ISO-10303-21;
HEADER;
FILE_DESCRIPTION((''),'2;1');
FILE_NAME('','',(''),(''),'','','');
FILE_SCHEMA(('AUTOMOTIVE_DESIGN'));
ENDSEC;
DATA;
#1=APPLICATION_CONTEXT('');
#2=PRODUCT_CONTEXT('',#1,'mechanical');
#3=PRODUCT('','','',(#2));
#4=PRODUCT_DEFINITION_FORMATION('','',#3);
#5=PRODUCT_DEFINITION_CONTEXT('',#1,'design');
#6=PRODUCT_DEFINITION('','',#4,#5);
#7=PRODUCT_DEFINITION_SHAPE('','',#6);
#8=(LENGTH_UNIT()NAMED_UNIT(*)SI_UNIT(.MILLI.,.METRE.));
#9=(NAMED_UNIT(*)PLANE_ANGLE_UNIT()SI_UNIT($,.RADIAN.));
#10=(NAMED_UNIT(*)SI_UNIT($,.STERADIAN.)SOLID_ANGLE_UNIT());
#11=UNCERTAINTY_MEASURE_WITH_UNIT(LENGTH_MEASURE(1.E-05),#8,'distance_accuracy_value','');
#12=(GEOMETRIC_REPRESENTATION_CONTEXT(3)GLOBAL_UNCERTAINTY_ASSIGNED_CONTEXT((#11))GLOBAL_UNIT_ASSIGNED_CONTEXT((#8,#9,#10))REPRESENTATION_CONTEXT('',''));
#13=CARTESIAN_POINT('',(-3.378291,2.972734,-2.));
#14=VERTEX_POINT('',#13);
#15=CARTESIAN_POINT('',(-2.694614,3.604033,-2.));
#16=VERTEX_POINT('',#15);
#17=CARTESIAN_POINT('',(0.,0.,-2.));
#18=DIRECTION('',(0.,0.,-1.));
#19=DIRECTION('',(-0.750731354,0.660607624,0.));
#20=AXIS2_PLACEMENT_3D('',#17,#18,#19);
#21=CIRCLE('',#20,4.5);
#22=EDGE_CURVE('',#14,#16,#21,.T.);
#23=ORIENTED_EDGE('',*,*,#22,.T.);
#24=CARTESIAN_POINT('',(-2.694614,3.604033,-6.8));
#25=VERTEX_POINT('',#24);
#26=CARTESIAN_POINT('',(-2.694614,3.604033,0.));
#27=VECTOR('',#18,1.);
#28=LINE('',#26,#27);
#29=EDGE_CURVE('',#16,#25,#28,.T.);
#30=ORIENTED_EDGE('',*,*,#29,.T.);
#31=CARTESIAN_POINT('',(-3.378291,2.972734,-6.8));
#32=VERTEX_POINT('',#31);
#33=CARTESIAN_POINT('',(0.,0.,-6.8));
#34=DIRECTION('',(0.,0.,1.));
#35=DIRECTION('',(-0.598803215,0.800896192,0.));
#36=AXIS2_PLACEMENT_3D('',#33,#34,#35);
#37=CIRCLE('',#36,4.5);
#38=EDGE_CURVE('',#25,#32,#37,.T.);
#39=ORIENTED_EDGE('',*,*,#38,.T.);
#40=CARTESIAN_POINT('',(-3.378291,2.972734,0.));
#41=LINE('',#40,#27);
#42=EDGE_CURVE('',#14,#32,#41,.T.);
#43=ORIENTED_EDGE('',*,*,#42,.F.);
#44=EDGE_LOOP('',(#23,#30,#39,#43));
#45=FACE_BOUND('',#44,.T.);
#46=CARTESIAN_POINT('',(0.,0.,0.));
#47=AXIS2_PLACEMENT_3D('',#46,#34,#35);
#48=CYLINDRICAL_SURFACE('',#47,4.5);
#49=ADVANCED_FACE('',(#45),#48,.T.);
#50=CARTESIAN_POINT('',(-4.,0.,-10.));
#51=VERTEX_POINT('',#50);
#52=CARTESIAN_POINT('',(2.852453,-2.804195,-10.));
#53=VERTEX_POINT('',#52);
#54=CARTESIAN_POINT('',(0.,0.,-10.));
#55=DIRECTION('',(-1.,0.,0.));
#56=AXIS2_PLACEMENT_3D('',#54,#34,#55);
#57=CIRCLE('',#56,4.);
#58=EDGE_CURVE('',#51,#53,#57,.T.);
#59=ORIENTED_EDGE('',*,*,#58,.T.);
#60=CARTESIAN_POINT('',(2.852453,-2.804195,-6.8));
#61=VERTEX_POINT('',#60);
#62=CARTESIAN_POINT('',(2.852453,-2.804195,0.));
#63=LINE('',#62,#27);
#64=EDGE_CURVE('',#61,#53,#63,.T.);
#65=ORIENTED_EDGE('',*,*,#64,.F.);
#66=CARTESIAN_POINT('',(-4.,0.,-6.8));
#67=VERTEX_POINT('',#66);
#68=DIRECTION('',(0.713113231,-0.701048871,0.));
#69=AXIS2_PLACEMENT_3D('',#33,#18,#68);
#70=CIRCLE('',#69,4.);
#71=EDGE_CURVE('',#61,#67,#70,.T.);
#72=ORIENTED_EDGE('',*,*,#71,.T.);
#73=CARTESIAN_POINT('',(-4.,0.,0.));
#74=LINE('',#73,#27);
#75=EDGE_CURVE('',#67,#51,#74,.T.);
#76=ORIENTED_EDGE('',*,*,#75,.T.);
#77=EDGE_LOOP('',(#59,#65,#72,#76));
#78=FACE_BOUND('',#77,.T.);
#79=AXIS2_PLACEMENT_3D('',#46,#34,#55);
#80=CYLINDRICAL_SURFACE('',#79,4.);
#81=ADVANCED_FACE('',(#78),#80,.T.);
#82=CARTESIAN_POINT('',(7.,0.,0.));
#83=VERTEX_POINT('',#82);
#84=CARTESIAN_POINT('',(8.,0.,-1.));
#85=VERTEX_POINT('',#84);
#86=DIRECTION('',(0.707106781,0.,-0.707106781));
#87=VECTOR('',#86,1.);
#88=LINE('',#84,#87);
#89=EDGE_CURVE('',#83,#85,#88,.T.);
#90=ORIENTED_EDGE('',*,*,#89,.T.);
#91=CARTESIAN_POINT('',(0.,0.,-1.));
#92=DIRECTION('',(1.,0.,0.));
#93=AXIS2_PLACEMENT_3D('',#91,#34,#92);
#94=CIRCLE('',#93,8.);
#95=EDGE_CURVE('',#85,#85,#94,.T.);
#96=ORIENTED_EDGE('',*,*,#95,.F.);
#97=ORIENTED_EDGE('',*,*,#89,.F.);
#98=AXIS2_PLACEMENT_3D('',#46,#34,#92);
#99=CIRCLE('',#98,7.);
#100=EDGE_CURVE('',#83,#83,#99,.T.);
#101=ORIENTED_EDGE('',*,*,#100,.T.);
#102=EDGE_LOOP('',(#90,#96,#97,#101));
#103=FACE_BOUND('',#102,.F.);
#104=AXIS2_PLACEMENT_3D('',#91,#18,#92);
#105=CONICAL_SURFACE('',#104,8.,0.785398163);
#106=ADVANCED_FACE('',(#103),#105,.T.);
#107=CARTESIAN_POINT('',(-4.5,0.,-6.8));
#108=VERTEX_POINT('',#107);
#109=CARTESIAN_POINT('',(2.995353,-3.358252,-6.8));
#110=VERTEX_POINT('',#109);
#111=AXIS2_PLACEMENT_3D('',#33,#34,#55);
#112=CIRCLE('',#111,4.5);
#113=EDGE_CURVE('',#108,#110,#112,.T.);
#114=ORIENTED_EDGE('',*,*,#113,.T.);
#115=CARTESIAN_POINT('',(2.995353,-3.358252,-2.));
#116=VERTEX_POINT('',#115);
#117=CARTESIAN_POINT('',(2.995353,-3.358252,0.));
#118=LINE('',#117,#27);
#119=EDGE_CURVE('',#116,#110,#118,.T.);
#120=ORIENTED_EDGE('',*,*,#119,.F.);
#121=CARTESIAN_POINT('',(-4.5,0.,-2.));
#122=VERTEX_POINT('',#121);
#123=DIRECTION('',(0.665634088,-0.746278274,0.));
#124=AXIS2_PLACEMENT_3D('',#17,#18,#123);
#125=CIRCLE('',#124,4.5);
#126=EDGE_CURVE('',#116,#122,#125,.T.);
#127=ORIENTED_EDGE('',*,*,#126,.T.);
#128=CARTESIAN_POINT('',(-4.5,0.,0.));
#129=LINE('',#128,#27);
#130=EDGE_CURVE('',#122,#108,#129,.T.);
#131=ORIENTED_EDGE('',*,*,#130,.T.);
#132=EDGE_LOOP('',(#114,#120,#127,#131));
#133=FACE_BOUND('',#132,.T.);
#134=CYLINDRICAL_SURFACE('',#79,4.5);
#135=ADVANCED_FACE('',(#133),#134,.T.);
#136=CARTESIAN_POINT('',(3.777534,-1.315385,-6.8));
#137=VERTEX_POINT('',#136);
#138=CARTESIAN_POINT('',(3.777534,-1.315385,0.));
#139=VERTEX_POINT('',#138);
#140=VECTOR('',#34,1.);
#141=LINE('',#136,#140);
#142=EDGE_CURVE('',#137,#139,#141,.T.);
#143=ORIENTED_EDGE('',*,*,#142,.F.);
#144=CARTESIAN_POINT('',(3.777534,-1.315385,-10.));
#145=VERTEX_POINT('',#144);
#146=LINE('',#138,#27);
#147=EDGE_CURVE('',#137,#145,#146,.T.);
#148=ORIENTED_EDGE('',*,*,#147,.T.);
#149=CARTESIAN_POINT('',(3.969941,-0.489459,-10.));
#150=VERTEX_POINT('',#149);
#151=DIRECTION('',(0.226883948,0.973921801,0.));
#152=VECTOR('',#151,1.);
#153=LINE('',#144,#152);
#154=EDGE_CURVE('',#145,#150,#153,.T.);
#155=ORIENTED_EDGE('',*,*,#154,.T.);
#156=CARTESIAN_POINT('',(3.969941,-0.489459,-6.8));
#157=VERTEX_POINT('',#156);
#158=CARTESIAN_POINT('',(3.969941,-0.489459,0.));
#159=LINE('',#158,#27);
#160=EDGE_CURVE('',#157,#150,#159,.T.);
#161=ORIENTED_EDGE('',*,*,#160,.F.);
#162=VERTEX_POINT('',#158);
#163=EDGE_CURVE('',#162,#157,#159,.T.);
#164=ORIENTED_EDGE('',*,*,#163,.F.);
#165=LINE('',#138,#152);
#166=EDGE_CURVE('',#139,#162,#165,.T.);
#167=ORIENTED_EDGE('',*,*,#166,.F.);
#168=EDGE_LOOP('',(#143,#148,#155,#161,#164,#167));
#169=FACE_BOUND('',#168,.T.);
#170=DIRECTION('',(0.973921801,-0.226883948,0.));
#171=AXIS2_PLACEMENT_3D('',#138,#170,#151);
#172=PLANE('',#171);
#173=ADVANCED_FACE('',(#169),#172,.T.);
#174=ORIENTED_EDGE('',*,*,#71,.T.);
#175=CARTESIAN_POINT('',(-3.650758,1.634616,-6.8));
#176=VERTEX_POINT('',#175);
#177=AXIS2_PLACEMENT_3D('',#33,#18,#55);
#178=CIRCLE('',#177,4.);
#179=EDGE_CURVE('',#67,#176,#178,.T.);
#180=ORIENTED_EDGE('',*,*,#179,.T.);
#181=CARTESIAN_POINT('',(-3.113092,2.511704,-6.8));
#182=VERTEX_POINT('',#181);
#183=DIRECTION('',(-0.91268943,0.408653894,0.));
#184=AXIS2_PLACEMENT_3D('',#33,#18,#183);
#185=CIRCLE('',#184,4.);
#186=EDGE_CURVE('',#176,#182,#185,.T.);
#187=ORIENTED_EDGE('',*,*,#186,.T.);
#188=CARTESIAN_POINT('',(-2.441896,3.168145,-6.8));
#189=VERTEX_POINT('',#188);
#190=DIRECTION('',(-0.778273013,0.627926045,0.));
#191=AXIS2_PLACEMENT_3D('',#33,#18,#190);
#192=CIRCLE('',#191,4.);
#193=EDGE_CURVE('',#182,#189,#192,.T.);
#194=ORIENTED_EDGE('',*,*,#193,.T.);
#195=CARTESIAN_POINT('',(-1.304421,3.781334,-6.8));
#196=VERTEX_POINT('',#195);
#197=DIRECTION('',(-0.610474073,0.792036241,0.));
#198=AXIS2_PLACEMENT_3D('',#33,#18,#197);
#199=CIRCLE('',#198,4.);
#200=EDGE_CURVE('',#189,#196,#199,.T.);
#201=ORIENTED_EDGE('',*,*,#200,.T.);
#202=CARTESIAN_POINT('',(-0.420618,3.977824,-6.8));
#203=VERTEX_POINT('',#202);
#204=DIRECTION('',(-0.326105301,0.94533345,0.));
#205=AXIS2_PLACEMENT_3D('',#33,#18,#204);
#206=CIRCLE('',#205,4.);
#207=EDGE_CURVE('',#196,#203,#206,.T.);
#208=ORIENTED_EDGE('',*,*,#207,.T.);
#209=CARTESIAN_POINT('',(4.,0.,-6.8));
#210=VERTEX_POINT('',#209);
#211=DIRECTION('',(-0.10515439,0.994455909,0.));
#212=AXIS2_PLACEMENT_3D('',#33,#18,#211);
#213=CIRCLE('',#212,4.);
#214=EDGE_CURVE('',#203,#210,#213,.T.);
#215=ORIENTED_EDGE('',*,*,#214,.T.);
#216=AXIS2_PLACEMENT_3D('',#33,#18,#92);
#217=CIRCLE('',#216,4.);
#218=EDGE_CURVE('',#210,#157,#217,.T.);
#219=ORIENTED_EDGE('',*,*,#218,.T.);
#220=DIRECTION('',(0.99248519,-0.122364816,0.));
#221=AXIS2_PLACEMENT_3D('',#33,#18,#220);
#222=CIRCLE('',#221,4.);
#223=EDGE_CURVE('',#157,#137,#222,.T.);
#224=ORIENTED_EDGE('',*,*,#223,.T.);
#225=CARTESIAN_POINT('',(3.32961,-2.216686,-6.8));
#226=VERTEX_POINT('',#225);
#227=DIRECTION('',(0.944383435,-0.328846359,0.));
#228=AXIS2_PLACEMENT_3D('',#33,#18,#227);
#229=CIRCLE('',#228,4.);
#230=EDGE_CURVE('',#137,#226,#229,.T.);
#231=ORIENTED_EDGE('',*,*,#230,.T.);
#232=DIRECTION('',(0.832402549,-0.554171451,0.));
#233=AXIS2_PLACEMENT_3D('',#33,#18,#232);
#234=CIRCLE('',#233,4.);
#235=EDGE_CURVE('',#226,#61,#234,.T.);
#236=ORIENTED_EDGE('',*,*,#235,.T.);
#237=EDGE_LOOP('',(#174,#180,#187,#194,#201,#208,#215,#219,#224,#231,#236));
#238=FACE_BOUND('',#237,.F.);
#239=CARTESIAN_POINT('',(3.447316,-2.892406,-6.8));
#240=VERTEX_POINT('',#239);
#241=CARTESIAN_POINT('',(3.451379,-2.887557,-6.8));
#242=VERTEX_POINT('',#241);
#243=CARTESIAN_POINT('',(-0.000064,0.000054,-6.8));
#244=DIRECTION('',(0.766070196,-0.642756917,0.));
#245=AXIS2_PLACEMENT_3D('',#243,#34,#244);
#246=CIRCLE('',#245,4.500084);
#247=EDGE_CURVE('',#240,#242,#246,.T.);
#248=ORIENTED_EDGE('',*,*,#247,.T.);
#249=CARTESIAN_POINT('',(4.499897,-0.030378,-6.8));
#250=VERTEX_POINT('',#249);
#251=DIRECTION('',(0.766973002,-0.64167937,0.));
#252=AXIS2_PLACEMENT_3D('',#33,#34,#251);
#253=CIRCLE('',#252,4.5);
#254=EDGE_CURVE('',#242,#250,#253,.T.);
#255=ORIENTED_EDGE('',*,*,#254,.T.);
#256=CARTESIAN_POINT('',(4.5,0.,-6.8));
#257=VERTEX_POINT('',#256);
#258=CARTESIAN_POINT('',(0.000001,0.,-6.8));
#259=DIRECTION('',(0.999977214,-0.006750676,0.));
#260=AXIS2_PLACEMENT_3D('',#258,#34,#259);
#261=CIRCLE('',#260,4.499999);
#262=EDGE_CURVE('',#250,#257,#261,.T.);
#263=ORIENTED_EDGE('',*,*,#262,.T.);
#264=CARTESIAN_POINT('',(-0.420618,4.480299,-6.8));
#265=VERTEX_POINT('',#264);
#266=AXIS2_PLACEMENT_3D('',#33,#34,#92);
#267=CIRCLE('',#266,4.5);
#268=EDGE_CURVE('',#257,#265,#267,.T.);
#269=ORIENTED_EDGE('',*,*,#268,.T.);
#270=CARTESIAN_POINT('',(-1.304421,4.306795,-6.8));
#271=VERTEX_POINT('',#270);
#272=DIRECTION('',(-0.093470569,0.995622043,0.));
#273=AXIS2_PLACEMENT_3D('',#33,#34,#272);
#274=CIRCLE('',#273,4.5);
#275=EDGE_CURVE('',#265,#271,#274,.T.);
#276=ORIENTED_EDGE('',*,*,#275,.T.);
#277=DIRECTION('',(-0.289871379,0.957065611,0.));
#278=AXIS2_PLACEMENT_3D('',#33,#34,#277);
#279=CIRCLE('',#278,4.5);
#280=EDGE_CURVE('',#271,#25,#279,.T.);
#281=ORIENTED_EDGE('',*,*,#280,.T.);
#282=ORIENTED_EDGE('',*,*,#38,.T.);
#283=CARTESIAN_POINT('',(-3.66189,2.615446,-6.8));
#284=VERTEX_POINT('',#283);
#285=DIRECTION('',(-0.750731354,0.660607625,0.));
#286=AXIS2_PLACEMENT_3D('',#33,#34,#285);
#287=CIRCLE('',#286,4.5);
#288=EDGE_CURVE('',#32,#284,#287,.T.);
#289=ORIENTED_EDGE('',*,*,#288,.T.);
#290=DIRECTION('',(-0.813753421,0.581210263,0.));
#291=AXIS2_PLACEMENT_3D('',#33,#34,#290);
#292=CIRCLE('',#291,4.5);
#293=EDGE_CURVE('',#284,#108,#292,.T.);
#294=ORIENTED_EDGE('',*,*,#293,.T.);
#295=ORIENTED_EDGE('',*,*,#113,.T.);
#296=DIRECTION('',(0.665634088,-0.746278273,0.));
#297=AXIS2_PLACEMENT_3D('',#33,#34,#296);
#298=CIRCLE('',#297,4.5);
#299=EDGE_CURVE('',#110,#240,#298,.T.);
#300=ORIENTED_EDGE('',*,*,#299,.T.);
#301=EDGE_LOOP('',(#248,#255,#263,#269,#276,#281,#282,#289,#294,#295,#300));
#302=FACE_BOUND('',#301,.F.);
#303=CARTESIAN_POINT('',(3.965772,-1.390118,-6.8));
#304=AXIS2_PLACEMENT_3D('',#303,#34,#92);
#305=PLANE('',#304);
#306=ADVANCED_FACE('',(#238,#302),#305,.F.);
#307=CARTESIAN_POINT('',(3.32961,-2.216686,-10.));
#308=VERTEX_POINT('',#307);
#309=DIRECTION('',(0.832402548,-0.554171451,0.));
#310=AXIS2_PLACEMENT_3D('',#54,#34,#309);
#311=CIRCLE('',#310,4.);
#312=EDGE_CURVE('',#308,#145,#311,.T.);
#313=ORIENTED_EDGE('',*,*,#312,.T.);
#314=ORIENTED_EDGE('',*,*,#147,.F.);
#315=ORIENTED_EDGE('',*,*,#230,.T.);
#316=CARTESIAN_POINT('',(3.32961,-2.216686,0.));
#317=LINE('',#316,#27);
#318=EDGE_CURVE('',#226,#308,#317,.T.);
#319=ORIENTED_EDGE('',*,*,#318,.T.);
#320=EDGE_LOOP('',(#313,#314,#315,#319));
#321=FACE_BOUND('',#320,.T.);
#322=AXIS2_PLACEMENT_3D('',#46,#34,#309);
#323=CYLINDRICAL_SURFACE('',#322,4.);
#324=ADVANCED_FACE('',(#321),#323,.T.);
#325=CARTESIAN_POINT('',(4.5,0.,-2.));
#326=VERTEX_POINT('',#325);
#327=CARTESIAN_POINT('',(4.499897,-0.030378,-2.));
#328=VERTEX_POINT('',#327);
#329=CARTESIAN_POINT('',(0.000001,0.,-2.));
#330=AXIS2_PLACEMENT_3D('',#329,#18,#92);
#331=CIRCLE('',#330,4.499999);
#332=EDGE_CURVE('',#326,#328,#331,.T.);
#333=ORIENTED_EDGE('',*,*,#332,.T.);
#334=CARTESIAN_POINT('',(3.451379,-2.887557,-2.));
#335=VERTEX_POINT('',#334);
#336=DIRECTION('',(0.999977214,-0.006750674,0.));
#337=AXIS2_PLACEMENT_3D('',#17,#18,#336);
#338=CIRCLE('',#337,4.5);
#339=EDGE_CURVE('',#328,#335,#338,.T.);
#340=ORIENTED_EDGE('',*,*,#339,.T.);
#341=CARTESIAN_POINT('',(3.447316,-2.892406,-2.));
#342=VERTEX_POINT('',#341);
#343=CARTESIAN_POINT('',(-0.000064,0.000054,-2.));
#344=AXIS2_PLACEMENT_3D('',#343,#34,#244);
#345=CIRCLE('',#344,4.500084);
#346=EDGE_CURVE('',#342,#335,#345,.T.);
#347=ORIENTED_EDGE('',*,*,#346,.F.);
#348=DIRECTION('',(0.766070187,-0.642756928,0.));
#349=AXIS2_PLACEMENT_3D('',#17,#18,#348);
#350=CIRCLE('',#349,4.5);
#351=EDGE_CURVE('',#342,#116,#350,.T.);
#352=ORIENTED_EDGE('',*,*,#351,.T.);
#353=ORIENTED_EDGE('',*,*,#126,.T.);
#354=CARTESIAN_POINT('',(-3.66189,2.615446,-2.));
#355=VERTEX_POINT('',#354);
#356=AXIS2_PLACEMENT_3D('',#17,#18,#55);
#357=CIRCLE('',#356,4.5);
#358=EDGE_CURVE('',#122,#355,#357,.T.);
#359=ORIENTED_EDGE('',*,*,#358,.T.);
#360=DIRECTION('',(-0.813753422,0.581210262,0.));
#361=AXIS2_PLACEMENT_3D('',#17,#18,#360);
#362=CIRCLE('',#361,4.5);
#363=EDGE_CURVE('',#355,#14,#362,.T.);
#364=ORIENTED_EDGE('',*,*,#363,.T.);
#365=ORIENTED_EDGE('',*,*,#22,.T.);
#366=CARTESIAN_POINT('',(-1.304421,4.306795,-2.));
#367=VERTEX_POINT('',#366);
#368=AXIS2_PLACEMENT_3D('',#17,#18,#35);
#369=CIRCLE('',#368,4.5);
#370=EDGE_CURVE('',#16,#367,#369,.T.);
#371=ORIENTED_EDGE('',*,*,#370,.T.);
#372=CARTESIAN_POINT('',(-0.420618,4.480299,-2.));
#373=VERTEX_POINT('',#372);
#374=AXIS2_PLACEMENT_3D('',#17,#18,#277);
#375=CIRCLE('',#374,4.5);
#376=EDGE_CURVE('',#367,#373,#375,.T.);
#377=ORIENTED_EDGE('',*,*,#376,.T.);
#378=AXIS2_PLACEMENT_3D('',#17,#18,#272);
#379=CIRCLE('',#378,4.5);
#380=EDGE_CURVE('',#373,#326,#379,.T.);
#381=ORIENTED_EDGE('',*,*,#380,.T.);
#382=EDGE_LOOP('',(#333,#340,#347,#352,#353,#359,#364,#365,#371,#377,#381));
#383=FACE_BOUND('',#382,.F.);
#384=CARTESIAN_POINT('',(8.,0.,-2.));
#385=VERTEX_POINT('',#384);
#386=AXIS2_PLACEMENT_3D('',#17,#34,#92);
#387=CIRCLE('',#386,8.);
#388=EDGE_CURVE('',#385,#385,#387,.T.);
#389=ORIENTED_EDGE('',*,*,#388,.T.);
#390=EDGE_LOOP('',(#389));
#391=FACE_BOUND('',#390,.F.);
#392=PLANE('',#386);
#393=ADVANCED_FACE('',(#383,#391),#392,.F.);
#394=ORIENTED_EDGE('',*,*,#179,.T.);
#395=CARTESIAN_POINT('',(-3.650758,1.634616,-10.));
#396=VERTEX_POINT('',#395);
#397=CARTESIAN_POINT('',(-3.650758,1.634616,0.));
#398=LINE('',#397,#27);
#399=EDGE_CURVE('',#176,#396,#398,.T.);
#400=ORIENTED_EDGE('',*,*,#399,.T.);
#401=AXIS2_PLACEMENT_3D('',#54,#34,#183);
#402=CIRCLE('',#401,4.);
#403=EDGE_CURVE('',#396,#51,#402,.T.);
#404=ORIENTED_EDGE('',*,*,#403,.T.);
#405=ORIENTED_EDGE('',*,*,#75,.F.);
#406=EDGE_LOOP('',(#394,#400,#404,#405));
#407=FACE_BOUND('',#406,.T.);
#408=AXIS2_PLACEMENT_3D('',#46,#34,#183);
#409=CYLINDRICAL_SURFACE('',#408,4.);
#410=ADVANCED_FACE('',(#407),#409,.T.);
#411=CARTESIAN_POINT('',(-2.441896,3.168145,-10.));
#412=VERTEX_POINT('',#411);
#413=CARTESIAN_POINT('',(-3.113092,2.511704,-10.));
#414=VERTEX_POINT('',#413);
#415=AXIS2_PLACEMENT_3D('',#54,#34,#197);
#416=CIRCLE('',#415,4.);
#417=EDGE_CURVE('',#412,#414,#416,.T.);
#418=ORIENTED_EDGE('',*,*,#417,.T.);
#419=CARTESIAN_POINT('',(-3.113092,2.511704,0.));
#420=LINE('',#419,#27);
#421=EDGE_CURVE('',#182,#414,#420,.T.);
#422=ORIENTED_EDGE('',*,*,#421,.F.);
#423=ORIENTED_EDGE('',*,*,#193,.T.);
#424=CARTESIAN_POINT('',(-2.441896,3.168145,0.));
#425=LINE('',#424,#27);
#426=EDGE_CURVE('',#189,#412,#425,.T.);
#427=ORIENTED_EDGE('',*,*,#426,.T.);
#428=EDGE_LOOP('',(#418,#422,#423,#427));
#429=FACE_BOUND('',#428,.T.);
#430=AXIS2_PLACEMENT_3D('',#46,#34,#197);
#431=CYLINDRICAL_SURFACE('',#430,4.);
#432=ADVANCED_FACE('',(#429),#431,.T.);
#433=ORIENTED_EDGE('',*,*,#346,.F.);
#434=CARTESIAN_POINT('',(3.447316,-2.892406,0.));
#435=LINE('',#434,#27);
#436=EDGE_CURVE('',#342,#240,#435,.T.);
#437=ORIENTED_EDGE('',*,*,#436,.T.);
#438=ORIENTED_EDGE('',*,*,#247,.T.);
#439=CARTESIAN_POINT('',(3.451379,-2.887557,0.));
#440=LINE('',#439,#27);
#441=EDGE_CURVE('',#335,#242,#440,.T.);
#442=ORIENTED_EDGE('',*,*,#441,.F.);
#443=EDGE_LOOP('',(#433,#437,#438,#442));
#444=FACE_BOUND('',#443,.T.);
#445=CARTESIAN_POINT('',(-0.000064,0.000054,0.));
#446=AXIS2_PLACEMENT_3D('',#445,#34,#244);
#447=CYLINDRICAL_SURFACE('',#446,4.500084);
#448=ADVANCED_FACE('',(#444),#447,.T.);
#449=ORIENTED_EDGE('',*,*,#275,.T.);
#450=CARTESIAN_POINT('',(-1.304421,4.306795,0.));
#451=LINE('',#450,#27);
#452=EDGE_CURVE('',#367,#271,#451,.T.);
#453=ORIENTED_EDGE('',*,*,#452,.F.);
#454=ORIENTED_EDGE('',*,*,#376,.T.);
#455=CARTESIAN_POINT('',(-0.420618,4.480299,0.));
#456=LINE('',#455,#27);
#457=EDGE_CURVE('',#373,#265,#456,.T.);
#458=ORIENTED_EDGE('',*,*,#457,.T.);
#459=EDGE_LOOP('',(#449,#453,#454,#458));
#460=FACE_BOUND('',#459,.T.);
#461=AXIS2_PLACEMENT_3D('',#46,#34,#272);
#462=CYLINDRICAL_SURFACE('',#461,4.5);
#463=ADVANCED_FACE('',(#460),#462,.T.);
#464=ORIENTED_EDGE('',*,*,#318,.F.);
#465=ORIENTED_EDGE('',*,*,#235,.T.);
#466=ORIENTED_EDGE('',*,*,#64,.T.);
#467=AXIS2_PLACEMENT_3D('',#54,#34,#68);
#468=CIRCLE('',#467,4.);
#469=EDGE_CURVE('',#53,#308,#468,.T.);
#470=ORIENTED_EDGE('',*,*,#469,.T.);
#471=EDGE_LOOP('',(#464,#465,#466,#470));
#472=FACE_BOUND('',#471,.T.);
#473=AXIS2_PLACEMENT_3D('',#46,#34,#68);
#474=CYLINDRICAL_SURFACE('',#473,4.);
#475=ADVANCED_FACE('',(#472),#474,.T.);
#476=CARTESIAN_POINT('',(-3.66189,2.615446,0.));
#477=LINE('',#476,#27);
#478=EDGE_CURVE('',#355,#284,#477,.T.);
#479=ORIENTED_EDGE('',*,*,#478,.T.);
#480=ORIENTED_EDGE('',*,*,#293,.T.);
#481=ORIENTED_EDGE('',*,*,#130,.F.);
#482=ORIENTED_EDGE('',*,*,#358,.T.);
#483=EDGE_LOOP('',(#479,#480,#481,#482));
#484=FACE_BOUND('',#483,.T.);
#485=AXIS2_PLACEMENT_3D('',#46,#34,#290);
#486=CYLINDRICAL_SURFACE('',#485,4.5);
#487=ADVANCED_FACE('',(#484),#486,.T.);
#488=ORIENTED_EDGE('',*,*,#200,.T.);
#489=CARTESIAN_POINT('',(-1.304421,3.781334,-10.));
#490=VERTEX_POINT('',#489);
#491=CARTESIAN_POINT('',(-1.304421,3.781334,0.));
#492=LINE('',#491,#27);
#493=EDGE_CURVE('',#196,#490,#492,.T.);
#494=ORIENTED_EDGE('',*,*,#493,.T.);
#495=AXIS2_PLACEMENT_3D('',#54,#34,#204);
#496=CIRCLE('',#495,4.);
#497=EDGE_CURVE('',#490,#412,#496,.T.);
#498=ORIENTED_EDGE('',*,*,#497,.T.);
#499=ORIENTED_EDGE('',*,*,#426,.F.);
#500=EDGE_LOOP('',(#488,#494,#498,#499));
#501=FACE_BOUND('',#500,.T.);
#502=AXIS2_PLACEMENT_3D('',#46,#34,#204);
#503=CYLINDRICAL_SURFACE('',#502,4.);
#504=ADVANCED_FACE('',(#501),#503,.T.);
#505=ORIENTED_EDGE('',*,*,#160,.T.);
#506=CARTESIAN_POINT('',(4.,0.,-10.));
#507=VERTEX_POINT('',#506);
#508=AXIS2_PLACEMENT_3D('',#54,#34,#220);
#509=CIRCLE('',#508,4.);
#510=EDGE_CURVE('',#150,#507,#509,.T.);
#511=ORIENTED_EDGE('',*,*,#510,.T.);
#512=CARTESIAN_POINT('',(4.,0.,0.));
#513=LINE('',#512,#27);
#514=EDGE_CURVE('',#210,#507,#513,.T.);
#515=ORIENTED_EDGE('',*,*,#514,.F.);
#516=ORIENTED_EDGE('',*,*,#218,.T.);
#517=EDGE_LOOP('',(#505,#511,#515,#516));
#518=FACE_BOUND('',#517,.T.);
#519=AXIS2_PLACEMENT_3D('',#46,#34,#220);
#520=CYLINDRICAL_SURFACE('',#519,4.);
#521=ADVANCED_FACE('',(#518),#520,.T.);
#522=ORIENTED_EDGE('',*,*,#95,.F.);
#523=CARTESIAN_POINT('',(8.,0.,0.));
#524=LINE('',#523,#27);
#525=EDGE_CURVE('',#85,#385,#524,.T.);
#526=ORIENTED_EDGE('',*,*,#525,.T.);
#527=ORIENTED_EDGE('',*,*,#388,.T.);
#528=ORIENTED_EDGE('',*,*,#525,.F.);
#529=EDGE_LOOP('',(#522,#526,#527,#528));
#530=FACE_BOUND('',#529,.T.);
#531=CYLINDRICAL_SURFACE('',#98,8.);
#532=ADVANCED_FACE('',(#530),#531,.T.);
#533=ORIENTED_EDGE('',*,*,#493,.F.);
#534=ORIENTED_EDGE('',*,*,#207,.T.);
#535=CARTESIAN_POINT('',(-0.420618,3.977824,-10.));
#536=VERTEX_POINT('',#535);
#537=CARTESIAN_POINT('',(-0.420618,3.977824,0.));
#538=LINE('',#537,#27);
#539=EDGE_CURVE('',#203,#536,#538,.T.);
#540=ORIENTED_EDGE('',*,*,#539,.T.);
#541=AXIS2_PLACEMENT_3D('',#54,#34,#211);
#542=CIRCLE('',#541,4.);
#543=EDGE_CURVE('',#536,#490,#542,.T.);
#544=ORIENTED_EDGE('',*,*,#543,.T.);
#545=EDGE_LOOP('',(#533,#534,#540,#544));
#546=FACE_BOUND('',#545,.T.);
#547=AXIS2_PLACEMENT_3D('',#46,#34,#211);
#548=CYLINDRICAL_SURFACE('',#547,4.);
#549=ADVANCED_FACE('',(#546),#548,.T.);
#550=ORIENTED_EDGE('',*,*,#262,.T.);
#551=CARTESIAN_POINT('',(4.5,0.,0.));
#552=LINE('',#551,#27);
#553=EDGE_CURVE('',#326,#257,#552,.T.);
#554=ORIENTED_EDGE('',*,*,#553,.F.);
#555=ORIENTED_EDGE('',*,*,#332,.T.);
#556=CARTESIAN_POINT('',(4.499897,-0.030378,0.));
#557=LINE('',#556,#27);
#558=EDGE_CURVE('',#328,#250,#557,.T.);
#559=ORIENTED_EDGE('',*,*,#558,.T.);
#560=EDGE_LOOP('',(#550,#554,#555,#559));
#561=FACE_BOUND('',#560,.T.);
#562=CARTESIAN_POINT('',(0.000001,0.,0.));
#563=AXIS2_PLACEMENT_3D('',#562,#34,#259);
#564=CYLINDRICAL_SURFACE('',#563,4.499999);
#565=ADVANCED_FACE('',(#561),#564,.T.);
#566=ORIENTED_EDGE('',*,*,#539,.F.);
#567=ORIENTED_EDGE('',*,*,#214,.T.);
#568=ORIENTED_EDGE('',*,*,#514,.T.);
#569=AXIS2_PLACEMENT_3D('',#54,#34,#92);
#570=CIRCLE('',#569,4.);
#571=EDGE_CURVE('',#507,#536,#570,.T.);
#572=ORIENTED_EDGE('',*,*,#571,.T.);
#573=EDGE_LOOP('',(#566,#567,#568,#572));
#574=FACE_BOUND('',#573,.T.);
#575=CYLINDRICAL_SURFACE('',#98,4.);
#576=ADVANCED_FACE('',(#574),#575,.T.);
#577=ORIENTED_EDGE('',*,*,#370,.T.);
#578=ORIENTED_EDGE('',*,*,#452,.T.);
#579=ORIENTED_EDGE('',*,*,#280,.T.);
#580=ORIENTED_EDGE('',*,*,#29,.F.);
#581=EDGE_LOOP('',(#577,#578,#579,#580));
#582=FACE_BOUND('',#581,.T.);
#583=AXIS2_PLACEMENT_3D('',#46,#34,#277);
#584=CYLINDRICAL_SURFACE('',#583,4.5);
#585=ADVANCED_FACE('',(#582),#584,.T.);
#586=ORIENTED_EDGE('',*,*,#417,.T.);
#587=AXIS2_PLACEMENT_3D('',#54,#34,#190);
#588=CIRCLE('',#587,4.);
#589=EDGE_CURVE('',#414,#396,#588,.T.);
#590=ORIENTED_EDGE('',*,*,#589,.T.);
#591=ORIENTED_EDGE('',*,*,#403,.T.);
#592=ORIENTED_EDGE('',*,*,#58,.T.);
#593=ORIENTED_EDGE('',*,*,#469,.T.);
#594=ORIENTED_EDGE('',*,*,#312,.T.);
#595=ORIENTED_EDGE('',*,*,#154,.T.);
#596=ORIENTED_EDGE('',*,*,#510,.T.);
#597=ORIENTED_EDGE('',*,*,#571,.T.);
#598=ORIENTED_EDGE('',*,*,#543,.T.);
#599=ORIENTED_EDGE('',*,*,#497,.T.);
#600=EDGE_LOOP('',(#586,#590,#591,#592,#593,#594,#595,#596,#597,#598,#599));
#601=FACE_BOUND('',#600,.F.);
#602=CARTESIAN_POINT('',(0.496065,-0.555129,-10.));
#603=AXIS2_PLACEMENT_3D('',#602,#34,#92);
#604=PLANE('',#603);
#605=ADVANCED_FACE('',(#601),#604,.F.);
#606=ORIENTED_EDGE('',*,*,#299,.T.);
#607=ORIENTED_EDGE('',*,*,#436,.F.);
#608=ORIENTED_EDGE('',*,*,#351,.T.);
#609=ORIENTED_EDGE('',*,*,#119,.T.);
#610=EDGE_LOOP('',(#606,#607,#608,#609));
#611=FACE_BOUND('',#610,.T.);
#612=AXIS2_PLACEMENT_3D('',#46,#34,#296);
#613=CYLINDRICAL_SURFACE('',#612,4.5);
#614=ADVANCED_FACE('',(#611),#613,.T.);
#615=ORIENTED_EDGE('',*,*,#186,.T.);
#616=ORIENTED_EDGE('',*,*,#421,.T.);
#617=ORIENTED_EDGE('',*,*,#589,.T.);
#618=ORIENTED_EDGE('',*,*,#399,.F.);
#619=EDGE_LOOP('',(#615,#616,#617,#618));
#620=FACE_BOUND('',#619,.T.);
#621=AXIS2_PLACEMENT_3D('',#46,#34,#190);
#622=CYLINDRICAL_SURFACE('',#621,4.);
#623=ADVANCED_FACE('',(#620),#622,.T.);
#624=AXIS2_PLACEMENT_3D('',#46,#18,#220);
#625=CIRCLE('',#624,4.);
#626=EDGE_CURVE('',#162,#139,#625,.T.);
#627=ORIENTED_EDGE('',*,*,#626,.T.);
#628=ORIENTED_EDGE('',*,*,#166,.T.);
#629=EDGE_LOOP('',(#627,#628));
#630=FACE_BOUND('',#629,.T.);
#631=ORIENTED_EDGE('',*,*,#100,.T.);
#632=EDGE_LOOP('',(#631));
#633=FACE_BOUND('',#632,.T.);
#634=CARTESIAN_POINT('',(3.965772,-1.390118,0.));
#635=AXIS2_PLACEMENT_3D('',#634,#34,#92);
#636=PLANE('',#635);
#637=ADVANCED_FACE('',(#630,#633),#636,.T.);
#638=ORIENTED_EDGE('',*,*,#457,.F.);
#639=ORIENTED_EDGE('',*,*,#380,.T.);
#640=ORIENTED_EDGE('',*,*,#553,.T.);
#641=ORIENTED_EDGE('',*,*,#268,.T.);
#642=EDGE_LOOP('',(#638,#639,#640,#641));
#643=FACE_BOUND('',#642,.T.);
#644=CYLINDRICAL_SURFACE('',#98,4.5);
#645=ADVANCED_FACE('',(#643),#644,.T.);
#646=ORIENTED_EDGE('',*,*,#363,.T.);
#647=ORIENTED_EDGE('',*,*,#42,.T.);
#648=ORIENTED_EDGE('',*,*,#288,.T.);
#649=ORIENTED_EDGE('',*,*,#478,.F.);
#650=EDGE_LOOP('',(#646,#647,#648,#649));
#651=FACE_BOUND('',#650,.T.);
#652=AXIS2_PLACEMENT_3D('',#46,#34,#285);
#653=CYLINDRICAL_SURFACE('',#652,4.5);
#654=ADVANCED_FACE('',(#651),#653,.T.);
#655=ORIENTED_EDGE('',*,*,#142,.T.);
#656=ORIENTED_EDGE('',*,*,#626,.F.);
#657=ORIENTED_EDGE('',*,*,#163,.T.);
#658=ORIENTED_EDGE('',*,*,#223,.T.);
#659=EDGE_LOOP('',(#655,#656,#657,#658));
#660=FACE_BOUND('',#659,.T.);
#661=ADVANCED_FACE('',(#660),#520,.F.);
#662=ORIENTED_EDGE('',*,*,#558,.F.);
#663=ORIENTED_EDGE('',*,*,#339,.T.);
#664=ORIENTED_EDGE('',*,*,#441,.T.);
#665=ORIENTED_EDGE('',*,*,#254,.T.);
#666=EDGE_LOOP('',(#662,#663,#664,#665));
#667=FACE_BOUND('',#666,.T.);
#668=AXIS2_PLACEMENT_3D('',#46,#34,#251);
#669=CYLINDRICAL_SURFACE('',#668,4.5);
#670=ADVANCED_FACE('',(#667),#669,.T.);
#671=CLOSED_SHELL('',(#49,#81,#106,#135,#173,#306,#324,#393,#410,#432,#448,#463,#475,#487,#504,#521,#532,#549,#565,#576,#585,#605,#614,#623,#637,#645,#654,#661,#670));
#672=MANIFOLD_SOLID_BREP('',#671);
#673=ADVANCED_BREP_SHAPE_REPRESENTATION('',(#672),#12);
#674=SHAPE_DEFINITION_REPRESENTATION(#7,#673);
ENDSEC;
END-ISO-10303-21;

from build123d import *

# Parameters (mm, degrees)
F0_R     = 8
F1_DEPTH = 2
F2_DEPTH = 10
F3_SIZE  = 1
F4_DEPTH = 6.8


with BuildPart() as f1:
    # F0 (on Top) → F1 (new body)
    with BuildSketch(Plane.XY):
        Circle(F0_R)
        with BuildLine():
            Line((-0.4206175605, 4.6308473112), (-0.4206175605, 4.480299194))
            ThreePointArc((-0.4206175605, 4.480299194), (3.0296221693, 3.3273697587), (4.5, 0))
            ThreePointArc((4.5, 0), (4.4999743656, -0.0151891034), (4.4998974627, -0.0303780337))
            Line((4.4998974627, -0.0303780337), (4.81998135, -0.0303780337))
            Line((4.81998135, -0.0303780337), (3.914092806, -3.5892815224))
            Line((3.914092806, -3.5892815224), (3.0549396986, -3.5892815224))
            Line((3.0549396986, -3.5892815224), (2.9953533938, -3.3582522309))
            ThreePointArc((2.9953533938, -3.3582522309), (-1.8399605604, -4.1066464586), (-4.5, 0))
            Line((-4.5, 0), (-4.5284801459, 0))
            Line((-4.5284801459, 0), (-4.5284801459, 4.6308473112))
            Line((-4.5284801459, 4.6308473112), (-3.2899387989, 4.6308473112))
            Line((-3.2899387989, 4.6308473112), (-2.6946144665, 3.6040328629))
            ThreePointArc((-2.6946144665, 3.6040328629), (-2.0301577082, 4.0160253585), (-1.3044212058, 4.3067952491))
            Line((-1.3044212058, 4.3067952491), (-1.3044212058, 4.6308473112))
            Line((-1.3044212058, 4.6308473112), (-0.4206175605, 4.6308473112))
        make_face(mode=Mode.SUBTRACT)
        with BuildLine():
            Line((4.81998135, -0.0303780337), (4.4998974627, -0.0303780337))
            ThreePointArc((4.4998974627, -0.0303780337), (4.2245195635, -1.5503014087), (3.4513785085, -2.8875571667))
            add(Edge.make_bspline(
                [(3.449075213, -2.9053863018), (3.4501950312, -2.8965722486), (3.4513785085, -2.8875571667)],
                knots=[0, 0, 0, 0.0463757333, 0.0463757333, 0.0463757333], degree=2))
            add(Edge.make_bspline(
                [(3.4473158422, -2.8924061755), (3.4482086621, -2.8989381442), (3.449075213, -2.9053863018)],
                knots=[0.9672794895, 0.9672794895, 0.9672794895, 1, 1, 1], degree=2))
            ThreePointArc((3.4473158422, -2.8924061755), (3.2297445499, -3.133488494), (2.9953533938, -3.3582522309))
            Line((2.9953533938, -3.3582522309), (3.0549396986, -3.5892815224))
            Line((3.0549396986, -3.5892815224), (3.914092806, -3.5892815224))
            Line((3.914092806, -3.5892815224), (4.81998135, -0.0303780337))
        make_face()
        with BuildLine():
            Line((3.6243330998, -1.9730143438), (3.7775337391, -1.3153854378))
            ThreePointArc((3.7775337391, -1.3153854378), (3.582032846, -1.7801799601), (3.3296101941, -2.2166858043))
            add(Edge.make_bspline(
                [(3.3296101941, -2.2166858043), (3.3489440989, -2.3108458429), (3.3715722808, -2.4329689313)],
                knots=[0.5564798986, 0.5564798986, 0.5564798986, 1, 1, 1], degree=2))
            add(Edge.make_bspline(
                [(3.3715722808, -2.4329689313), (3.4209224143, -2.6993089647), (3.4473158422, -2.8924061755)],
                knots=[0, 0, 0, 0.9672794895, 0.9672794895, 0.9672794895], degree=2))
            ThreePointArc((3.4473158422, -2.8924061755), (3.4493480274, -2.889982385), (3.4513785085, -2.8875571667))
            add(Edge.make_bspline(
                [(3.4513785085, -2.8875571667), (3.4757143538, -2.7021800266), (3.5269676071, -2.4318005454)],
                knots=[0.0463757333, 0.0463757333, 0.0463757333, 1, 1, 1], degree=2))
            add(Edge.make_bspline(
                [(3.5269676071, -2.4318005454), (3.5807133591, -2.1482722307), (3.6243330998, -1.9730143438)],
                knots=[0, 0, 0, 1, 1, 1], degree=2))
        make_face()
        with BuildLine():
            add(Edge.make_bspline(
                [(3.449075213, -2.9053863018), (3.4501950312, -2.8965722486), (3.4513785085, -2.8875571667)],
                knots=[0, 0, 0, 0.0463757333, 0.0463757333, 0.0463757333], degree=2))
            ThreePointArc((3.4513785085, -2.8875571667), (3.4493480274, -2.889982385), (3.4473158422, -2.8924061755))
            add(Edge.make_bspline(
                [(3.4473158422, -2.8924061755), (3.4482086621, -2.8989381442), (3.449075213, -2.9053863018)],
                knots=[0.9672794895, 0.9672794895, 0.9672794895, 1, 1, 1], degree=2))
        make_face()
        with BuildLine():
            ThreePointArc((-3.3782910952, 2.9727343097), (-3.0528150871, 3.3061034533), (-2.6946144665, 3.6040328629))
            Line((-2.6946144665, 3.6040328629), (-3.2899387989, 4.6308473112))
            Line((-3.2899387989, 4.6308473112), (-4.5284801459, 4.6308473112))
            Line((-4.5284801459, 4.6308473112), (-4.5284801459, 0))
            Line((-4.5284801459, 0), (-4.5, 0))
            ThreePointArc((-4.5, 0), (-4.2853533562, 1.373224895), (-3.6618903945, 2.6154461834))
            add(Edge.make_bspline(
                [(-3.7115698957, 3.5027814199), (-3.6767769858, 2.9721895436), (-3.6618903945, 2.6154461834)],
                knots=[0, 0, 0, 0.5721372164, 0.5721372164, 0.5721372164], degree=2))
            Line((-3.7115698957, 3.5027814199), (-3.6831908796, 3.5027814199))
            Line((-3.6831908796, 3.5027814199), (-3.3782910952, 2.9727343097))
        make_face()
        with BuildLine():
            ThreePointArc((-1.3044212058, 4.3067952491), (-0.8668711502, 4.4157144845), (-0.4206175605, 4.480299194))
            Line((-0.4206175605, 4.480299194), (-0.4206175605, 4.6308473112))
            Line((-0.4206175605, 4.6308473112), (-1.3044212058, 4.6308473112))
            Line((-1.3044212058, 4.6308473112), (-1.3044212058, 4.3067952491))
        make_face()
        with BuildLine():
            ThreePointArc((-3.6618903945, 2.6154461834), (-3.5246209092, 2.797686088), (-3.3782910952, 2.9727343097))
            Line((-3.3782910952, 2.9727343097), (-3.6831908796, 3.5027814199))
            Line((-3.6831908796, 3.5027814199), (-3.7115698957, 3.5027814199))
            add(Edge.make_bspline(
                [(-3.7115698957, 3.5027814199), (-3.6767769858, 2.9721895436), (-3.6618903945, 2.6154461834)],
                knots=[0, 0, 0, 0.5721372164, 0.5721372164, 0.5721372164], degree=2))
        make_face()
    extrude(amount=-F1_DEPTH)

    # F0 (on Top) → F2 (join)
    with BuildSketch(Plane.XY):
        with BuildLine():
            ThreePointArc((3.969940759, -0.4894592628), (3.9924781174, -0.2451907053), (4, 0))
            ThreePointArc((4, 0), (2.6755868289, 2.9734214503), (-0.4206175605, 3.9778236346))
            Line((-0.4206175605, 3.9778236346), (-0.4206175605, 0))
            Line((-0.4206175605, 0), (-1.6682807341, 0))
            Line((-1.6682807341, 0), (-3.1130920504, 2.5117041796))
            ThreePointArc((-3.1130920504, 2.5117041796), (-3.410240025, 2.0905173934), (-3.6507577183, 1.6346155763))
            Line((-3.6507577183, 1.6346155763), (-3.6507577183, 0))
            Line((-3.6507577183, 0), (-4, 0))
            ThreePointArc((-4, 0), (-1.5149568149, -3.7020137559), (2.8524529245, -2.8041954842))
            Line((2.8524529245, -2.8041954842), (2.5727857788, -1.7198640628))
            add(Edge.make_bspline(
                [(2.5727857788, -1.7198640628), (2.5463023648, -1.6201617983), (2.4816516776, -1.3074238358)],
                knots=[0, 0, 0, 1, 1, 1], degree=2))
            add(Edge.make_bspline(
                [(2.4816516776, -1.3074238358), (2.4170009905, -0.9946858733), (2.4076539032, -0.8871943694)],
                knots=[0, 0, 0, 1, 1, 1], degree=2))
            add(Edge.make_bspline(
                [(2.4076539032, -0.8871943694), (2.3928543483, -1.0188325155), (2.3344350527, -1.3097606076)],
                knots=[0, 0, 0, 1, 1, 1], degree=2))
            add(Edge.make_bspline(
                [(2.3344350527, -1.3097606076), (2.2760157571, -1.6006886998), (2.2440798755, -1.7245376065)],
                knots=[0, 0, 0, 1, 1, 1], degree=2))
            Line((2.2440798755, -1.7245376065), (1.7650416514, -3.5892815224))
            Line((1.7650416514, -3.5892815224), (0.9082253158, -3.5892815224))
            Line((0.9082253158, -3.5892815224), (0, -0.0303780337))
            Line((0, -0.0303780337), (0.7423145162, -0.0303780337))
            Line((0.7423145162, -0.0303780337), (1.197985022, -1.9730143438))
            add(Edge.make_bspline(
                [(1.197985022, -1.9730143438), (1.3171603851, -2.5112507874), (1.3701272131, -2.9053863018)],
                knots=[0, 0, 0, 1, 1, 1], degree=2))
            add(Edge.make_bspline(
                [(1.3701272131, -2.9053863018), (1.384926768, -2.7667378402), (1.437504134, -2.4758097481)],
                knots=[0, 0, 0, 1, 1, 1], degree=2))
            add(Edge.make_bspline(
                [(1.437504134, -2.4758097481), (1.4900815001, -2.1848816559), (1.5360380126, -2.024423324)],
                knots=[0, 0, 0, 1, 1, 1], degree=2))
            Line((1.5360380126, -2.024423324), (2.0548013577, -0.0303780337))
            Line((2.0548013577, -0.0303780337), (2.7675167642, -0.0303780337))
            Line((2.7675167642, -0.0303780337), (3.2862801092, -2.024423324))
            add(Edge.make_bspline(
                [(3.2862801092, -2.024423324), (3.3053521519, -2.0985442172), (3.3296101941, -2.2166858043)],
                knots=[0, 0, 0, 0.5564798986, 0.5564798986, 0.5564798986], degree=2))
            ThreePointArc((3.3296101941, -2.2166858043), (3.582032846, -1.7801799601), (3.7775337391, -1.3153854378))
            Line((3.7775337391, -1.3153854378), (3.969940759, -0.4894592628))
        make_face()
        with BuildLine():
            Line((-3.6507577183, 0), (-3.6507577183, 1.6346155763))
            ThreePointArc((-3.6507577183, 1.6346155763), (-3.9117151528, 0.8357538893), (-4, 0))
            Line((-4, 0), (-3.6507577183, 0))
        make_face()
        with BuildLine():
            Line((-1.3044212058, 2.4385683149), (-1.3044212058, 3.7813338014))
            ThreePointArc((-1.3044212058, 3.7813338014), (-1.8980842541, 3.5209765924), (-2.4418962915, 3.1681449622))
            Line((-2.4418962915, 3.1681449622), (-1.2790827986, 1.1625261252))
            Line((-1.2790827986, 1.1625261252), (-1.2567850002, 1.1625261252))
            add(Edge.make_bspline(
                [(-1.2567850002, 1.1625261252), (-1.3044212058, 2.06558696), (-1.3044212058, 2.4385683149)],
                knots=[0, 0, 0, 1, 1, 1], degree=2))
        make_face()
        with BuildLine():
            ThreePointArc((2.8524529245, -2.8041954842), (3.104958616, -2.5217517707), (3.3296101941, -2.2166858043))
            add(Edge.make_bspline(
                [(3.2862801092, -2.024423324), (3.3053521519, -2.0985442172), (3.3296101941, -2.2166858043)],
                knots=[0, 0, 0, 0.5564798986, 0.5564798986, 0.5564798986], degree=2))
            Line((3.2862801092, -2.024423324), (2.7675167642, -0.0303780337))
            Line((2.7675167642, -0.0303780337), (2.0548013577, -0.0303780337))
            Line((2.0548013577, -0.0303780337), (1.5360380126, -2.024423324))
            add(Edge.make_bspline(
                [(1.437504134, -2.4758097481), (1.4900815001, -2.1848816559), (1.5360380126, -2.024423324)],
                knots=[0, 0, 0, 1, 1, 1], degree=2))
            add(Edge.make_bspline(
                [(1.3701272131, -2.9053863018), (1.384926768, -2.7667378402), (1.437504134, -2.4758097481)],
                knots=[0, 0, 0, 1, 1, 1], degree=2))
            add(Edge.make_bspline(
                [(1.197985022, -1.9730143438), (1.3171603851, -2.5112507874), (1.3701272131, -2.9053863018)],
                knots=[0, 0, 0, 1, 1, 1], degree=2))
            Line((1.197985022, -1.9730143438), (0.7423145162, -0.0303780337))
            Line((0.7423145162, -0.0303780337), (0, -0.0303780337))
            Line((0, -0.0303780337), (0.9082253158, -3.5892815224))
            Line((0.9082253158, -3.5892815224), (1.7650416514, -3.5892815224))
            Line((1.7650416514, -3.5892815224), (2.2440798755, -1.7245376065))
            add(Edge.make_bspline(
                [(2.3344350527, -1.3097606076), (2.2760157571, -1.6006886998), (2.2440798755, -1.7245376065)],
                knots=[0, 0, 0, 1, 1, 1], degree=2))
            add(Edge.make_bspline(
                [(2.4076539032, -0.8871943694), (2.3928543483, -1.0188325155), (2.3344350527, -1.3097606076)],
                knots=[0, 0, 0, 1, 1, 1], degree=2))
            add(Edge.make_bspline(
                [(2.4816516776, -1.3074238358), (2.4170009905, -0.9946858733), (2.4076539032, -0.8871943694)],
                knots=[0, 0, 0, 1, 1, 1], degree=2))
            add(Edge.make_bspline(
                [(2.5727857788, -1.7198640628), (2.5463023648, -1.6201617983), (2.4816516776, -1.3074238358)],
                knots=[0, 0, 0, 1, 1, 1], degree=2))
            Line((2.5727857788, -1.7198640628), (2.8524529245, -2.8041954842))
        make_face()
        with BuildLine():
            Line((-0.4206175605, 0), (-0.4206175605, 3.9778236346))
            ThreePointArc((-0.4206175605, 3.9778236346), (-0.8680966248, 3.9046649344), (-1.3044212058, 3.7813338014))
            Line((-1.3044212058, 3.7813338014), (-1.3044212058, 2.4385683149))
            add(Edge.make_bspline(
                [(-1.2567850002, 1.1625261252), (-1.3044212058, 2.06558696), (-1.3044212058, 2.4385683149)],
                knots=[0, 0, 0, 1, 1, 1], degree=2))
            Line((-1.2567850002, 1.1625261252), (-1.2790827986, 1.1625261252))
            Line((-1.2790827986, 1.1625261252), (-2.4418962915, 3.1681449622))
            ThreePointArc((-2.4418962915, 3.1681449622), (-2.7968200684, 2.8596848612), (-3.1130920504, 2.5117041796))
            Line((-3.1130920504, 2.5117041796), (-1.6682807341, 0))
            Line((-1.6682807341, 0), (-0.4206175605, 0))
        make_face()
    extrude(amount=-F2_DEPTH)

    # F3
    f3_edges = [f1.edges().sort_by_distance(p)[0] for p in [
        (-8, 0, 0),
    ]]
    chamfer(f3_edges, length=F3_SIZE)

    # F0 (on Top) → F4 (join)
    with BuildSketch(Plane.XY):
        with BuildLine():
            Line((4.0768879098, -0.0303780337), (3.969940759, -0.4894592628))
            ThreePointArc((3.969940759, -0.4894592628), (3.8956872033, -0.907535792), (3.7775337391, -1.3153854378))
            Line((3.7775337391, -1.3153854378), (3.6243330998, -1.9730143438))
            add(Edge.make_bspline(
                [(3.5269676071, -2.4318005454), (3.5807133591, -2.1482722307), (3.6243330998, -1.9730143438)],
                knots=[0, 0, 0, 1, 1, 1], degree=2))
            add(Edge.make_bspline(
                [(3.4513785085, -2.8875571667), (3.4757143538, -2.7021800266), (3.5269676071, -2.4318005454)],
                knots=[0.0463757333, 0.0463757333, 0.0463757333, 1, 1, 1], degree=2))
            ThreePointArc((3.4513785085, -2.8875571667), (4.2245195635, -1.5503014087), (4.4998974627, -0.0303780337))
            Line((4.4998974627, -0.0303780337), (4.0768879098, -0.0303780337))
        make_face()
        with BuildLine():
            Line((3.6243330998, -1.9730143438), (3.7775337391, -1.3153854378))
            ThreePointArc((3.7775337391, -1.3153854378), (3.582032846, -1.7801799601), (3.3296101941, -2.2166858043))
            add(Edge.make_bspline(
                [(3.3296101941, -2.2166858043), (3.3489440989, -2.3108458429), (3.3715722808, -2.4329689313)],
                knots=[0.5564798986, 0.5564798986, 0.5564798986, 1, 1, 1], degree=2))
            add(Edge.make_bspline(
                [(3.3715722808, -2.4329689313), (3.4209224143, -2.6993089647), (3.4473158422, -2.8924061755)],
                knots=[0, 0, 0, 0.9672794895, 0.9672794895, 0.9672794895], degree=2))
            ThreePointArc((3.4473158422, -2.8924061755), (3.4493480274, -2.889982385), (3.4513785085, -2.8875571667))
            add(Edge.make_bspline(
                [(3.4513785085, -2.8875571667), (3.4757143538, -2.7021800266), (3.5269676071, -2.4318005454)],
                knots=[0.0463757333, 0.0463757333, 0.0463757333, 1, 1, 1], degree=2))
            add(Edge.make_bspline(
                [(3.5269676071, -2.4318005454), (3.5807133591, -2.1482722307), (3.6243330998, -1.9730143438)],
                knots=[0, 0, 0, 1, 1, 1], degree=2))
        make_face()
        with BuildLine():
            add(Edge.make_bspline(
                [(3.3296101941, -2.2166858043), (3.3489440989, -2.3108458429), (3.3715722808, -2.4329689313)],
                knots=[0.5564798986, 0.5564798986, 0.5564798986, 1, 1, 1], degree=2))
            ThreePointArc((3.3296101941, -2.2166858043), (3.104958616, -2.5217517707), (2.8524529245, -2.8041954842))
            Line((2.8524529245, -2.8041954842), (2.9953533938, -3.3582522309))
            ThreePointArc((2.9953533938, -3.3582522309), (3.2297445499, -3.133488494), (3.4473158422, -2.8924061755))
            add(Edge.make_bspline(
                [(3.3715722808, -2.4329689313), (3.4209224143, -2.6993089647), (3.4473158422, -2.8924061755)],
                knots=[0, 0, 0, 0.9672794895, 0.9672794895, 0.9672794895], degree=2))
        make_face()
        with BuildLine():
            Line((2.9953533938, -3.3582522309), (2.8524529245, -2.8041954842))
            ThreePointArc((2.8524529245, -2.8041954842), (-1.5149568149, -3.7020137559), (-4, 0))
            Line((-4, 0), (-4.5, 0))
            ThreePointArc((-4.5, 0), (-1.8399605604, -4.1066464586), (2.9953533938, -3.3582522309))
        make_face()
        with BuildLine():
            ThreePointArc((-0.4206175605, 3.9778236346), (2.6755868289, 2.9734214503), (4, 0))
            ThreePointArc((4, 0), (3.9924781174, -0.2451907053), (3.969940759, -0.4894592628))
            Line((3.969940759, -0.4894592628), (4.0768879098, -0.0303780337))
            Line((4.0768879098, -0.0303780337), (4.4998974627, -0.0303780337))
            ThreePointArc((4.4998974627, -0.0303780337), (4.4999743656, -0.0151891034), (4.5, 0))
            ThreePointArc((4.5, 0), (3.0296221693, 3.3273697587), (-0.4206175605, 4.480299194))
            Line((-0.4206175605, 4.480299194), (-0.4206175605, 3.9778236346))
        make_face()
        with BuildLine():
            ThreePointArc((-1.3044212058, 3.7813338014), (-0.8680966248, 3.9046649344), (-0.4206175605, 3.9778236346))
            Line((-0.4206175605, 3.9778236346), (-0.4206175605, 4.480299194))
            ThreePointArc((-0.4206175605, 4.480299194), (-0.8668711502, 4.4157144845), (-1.3044212058, 4.3067952491))
            Line((-1.3044212058, 4.3067952491), (-1.3044212058, 3.7813338014))
        make_face()
        with BuildLine():
            ThreePointArc((-2.4418962915, 3.1681449622), (-1.8980842541, 3.5209765924), (-1.3044212058, 3.7813338014))
            Line((-1.3044212058, 3.7813338014), (-1.3044212058, 4.3067952491))
            ThreePointArc((-1.3044212058, 4.3067952491), (-2.0301577082, 4.0160253585), (-2.6946144665, 3.6040328629))
            Line((-2.6946144665, 3.6040328629), (-2.4418962915, 3.1681449622))
        make_face()
        with BuildLine():
            ThreePointArc((-3.1130920504, 2.5117041796), (-2.7968200684, 2.8596848612), (-2.4418962915, 3.1681449622))
            Line((-2.4418962915, 3.1681449622), (-2.6946144665, 3.6040328629))
            ThreePointArc((-2.6946144665, 3.6040328629), (-3.0528150871, 3.3061034533), (-3.3782910952, 2.9727343097))
            Line((-3.3782910952, 2.9727343097), (-3.1130920504, 2.5117041796))
        make_face()
        with BuildLine():
            ThreePointArc((-4, 0), (-3.9117151528, 0.8357538893), (-3.6507577183, 1.6346155763))
            Line((-3.6507577183, 1.6346155763), (-3.6507577183, 2.1791030245))
            add(Edge.make_bspline(
                [(-3.6618903945, 2.6154461834), (-3.6507577183, 2.3486619178), (-3.6507577183, 2.1791030245)],
                knots=[0.5721372164, 0.5721372164, 0.5721372164, 1, 1, 1], degree=2))
            ThreePointArc((-3.6618903945, 2.6154461834), (-4.2853533562, 1.373224895), (-4.5, 0))
            Line((-4.5, 0), (-4, 0))
        make_face()
        with BuildLine():
            ThreePointArc((-3.6507577183, 1.6346155763), (-3.410240025, 2.0905173934), (-3.1130920504, 2.5117041796))
            Line((-3.1130920504, 2.5117041796), (-3.3782910952, 2.9727343097))
            ThreePointArc((-3.3782910952, 2.9727343097), (-3.5246209092, 2.797686088), (-3.6618903945, 2.6154461834))
            add(Edge.make_bspline(
                [(-3.6618903945, 2.6154461834), (-3.6507577183, 2.3486619178), (-3.6507577183, 2.1791030245)],
                knots=[0.5721372164, 0.5721372164, 0.5721372164, 1, 1, 1], degree=2))
            Line((-3.6507577183, 2.1791030245), (-3.6507577183, 1.6346155763))
        make_face()
    extrude(amount=-F4_DEPTH)


solid = f1.part
